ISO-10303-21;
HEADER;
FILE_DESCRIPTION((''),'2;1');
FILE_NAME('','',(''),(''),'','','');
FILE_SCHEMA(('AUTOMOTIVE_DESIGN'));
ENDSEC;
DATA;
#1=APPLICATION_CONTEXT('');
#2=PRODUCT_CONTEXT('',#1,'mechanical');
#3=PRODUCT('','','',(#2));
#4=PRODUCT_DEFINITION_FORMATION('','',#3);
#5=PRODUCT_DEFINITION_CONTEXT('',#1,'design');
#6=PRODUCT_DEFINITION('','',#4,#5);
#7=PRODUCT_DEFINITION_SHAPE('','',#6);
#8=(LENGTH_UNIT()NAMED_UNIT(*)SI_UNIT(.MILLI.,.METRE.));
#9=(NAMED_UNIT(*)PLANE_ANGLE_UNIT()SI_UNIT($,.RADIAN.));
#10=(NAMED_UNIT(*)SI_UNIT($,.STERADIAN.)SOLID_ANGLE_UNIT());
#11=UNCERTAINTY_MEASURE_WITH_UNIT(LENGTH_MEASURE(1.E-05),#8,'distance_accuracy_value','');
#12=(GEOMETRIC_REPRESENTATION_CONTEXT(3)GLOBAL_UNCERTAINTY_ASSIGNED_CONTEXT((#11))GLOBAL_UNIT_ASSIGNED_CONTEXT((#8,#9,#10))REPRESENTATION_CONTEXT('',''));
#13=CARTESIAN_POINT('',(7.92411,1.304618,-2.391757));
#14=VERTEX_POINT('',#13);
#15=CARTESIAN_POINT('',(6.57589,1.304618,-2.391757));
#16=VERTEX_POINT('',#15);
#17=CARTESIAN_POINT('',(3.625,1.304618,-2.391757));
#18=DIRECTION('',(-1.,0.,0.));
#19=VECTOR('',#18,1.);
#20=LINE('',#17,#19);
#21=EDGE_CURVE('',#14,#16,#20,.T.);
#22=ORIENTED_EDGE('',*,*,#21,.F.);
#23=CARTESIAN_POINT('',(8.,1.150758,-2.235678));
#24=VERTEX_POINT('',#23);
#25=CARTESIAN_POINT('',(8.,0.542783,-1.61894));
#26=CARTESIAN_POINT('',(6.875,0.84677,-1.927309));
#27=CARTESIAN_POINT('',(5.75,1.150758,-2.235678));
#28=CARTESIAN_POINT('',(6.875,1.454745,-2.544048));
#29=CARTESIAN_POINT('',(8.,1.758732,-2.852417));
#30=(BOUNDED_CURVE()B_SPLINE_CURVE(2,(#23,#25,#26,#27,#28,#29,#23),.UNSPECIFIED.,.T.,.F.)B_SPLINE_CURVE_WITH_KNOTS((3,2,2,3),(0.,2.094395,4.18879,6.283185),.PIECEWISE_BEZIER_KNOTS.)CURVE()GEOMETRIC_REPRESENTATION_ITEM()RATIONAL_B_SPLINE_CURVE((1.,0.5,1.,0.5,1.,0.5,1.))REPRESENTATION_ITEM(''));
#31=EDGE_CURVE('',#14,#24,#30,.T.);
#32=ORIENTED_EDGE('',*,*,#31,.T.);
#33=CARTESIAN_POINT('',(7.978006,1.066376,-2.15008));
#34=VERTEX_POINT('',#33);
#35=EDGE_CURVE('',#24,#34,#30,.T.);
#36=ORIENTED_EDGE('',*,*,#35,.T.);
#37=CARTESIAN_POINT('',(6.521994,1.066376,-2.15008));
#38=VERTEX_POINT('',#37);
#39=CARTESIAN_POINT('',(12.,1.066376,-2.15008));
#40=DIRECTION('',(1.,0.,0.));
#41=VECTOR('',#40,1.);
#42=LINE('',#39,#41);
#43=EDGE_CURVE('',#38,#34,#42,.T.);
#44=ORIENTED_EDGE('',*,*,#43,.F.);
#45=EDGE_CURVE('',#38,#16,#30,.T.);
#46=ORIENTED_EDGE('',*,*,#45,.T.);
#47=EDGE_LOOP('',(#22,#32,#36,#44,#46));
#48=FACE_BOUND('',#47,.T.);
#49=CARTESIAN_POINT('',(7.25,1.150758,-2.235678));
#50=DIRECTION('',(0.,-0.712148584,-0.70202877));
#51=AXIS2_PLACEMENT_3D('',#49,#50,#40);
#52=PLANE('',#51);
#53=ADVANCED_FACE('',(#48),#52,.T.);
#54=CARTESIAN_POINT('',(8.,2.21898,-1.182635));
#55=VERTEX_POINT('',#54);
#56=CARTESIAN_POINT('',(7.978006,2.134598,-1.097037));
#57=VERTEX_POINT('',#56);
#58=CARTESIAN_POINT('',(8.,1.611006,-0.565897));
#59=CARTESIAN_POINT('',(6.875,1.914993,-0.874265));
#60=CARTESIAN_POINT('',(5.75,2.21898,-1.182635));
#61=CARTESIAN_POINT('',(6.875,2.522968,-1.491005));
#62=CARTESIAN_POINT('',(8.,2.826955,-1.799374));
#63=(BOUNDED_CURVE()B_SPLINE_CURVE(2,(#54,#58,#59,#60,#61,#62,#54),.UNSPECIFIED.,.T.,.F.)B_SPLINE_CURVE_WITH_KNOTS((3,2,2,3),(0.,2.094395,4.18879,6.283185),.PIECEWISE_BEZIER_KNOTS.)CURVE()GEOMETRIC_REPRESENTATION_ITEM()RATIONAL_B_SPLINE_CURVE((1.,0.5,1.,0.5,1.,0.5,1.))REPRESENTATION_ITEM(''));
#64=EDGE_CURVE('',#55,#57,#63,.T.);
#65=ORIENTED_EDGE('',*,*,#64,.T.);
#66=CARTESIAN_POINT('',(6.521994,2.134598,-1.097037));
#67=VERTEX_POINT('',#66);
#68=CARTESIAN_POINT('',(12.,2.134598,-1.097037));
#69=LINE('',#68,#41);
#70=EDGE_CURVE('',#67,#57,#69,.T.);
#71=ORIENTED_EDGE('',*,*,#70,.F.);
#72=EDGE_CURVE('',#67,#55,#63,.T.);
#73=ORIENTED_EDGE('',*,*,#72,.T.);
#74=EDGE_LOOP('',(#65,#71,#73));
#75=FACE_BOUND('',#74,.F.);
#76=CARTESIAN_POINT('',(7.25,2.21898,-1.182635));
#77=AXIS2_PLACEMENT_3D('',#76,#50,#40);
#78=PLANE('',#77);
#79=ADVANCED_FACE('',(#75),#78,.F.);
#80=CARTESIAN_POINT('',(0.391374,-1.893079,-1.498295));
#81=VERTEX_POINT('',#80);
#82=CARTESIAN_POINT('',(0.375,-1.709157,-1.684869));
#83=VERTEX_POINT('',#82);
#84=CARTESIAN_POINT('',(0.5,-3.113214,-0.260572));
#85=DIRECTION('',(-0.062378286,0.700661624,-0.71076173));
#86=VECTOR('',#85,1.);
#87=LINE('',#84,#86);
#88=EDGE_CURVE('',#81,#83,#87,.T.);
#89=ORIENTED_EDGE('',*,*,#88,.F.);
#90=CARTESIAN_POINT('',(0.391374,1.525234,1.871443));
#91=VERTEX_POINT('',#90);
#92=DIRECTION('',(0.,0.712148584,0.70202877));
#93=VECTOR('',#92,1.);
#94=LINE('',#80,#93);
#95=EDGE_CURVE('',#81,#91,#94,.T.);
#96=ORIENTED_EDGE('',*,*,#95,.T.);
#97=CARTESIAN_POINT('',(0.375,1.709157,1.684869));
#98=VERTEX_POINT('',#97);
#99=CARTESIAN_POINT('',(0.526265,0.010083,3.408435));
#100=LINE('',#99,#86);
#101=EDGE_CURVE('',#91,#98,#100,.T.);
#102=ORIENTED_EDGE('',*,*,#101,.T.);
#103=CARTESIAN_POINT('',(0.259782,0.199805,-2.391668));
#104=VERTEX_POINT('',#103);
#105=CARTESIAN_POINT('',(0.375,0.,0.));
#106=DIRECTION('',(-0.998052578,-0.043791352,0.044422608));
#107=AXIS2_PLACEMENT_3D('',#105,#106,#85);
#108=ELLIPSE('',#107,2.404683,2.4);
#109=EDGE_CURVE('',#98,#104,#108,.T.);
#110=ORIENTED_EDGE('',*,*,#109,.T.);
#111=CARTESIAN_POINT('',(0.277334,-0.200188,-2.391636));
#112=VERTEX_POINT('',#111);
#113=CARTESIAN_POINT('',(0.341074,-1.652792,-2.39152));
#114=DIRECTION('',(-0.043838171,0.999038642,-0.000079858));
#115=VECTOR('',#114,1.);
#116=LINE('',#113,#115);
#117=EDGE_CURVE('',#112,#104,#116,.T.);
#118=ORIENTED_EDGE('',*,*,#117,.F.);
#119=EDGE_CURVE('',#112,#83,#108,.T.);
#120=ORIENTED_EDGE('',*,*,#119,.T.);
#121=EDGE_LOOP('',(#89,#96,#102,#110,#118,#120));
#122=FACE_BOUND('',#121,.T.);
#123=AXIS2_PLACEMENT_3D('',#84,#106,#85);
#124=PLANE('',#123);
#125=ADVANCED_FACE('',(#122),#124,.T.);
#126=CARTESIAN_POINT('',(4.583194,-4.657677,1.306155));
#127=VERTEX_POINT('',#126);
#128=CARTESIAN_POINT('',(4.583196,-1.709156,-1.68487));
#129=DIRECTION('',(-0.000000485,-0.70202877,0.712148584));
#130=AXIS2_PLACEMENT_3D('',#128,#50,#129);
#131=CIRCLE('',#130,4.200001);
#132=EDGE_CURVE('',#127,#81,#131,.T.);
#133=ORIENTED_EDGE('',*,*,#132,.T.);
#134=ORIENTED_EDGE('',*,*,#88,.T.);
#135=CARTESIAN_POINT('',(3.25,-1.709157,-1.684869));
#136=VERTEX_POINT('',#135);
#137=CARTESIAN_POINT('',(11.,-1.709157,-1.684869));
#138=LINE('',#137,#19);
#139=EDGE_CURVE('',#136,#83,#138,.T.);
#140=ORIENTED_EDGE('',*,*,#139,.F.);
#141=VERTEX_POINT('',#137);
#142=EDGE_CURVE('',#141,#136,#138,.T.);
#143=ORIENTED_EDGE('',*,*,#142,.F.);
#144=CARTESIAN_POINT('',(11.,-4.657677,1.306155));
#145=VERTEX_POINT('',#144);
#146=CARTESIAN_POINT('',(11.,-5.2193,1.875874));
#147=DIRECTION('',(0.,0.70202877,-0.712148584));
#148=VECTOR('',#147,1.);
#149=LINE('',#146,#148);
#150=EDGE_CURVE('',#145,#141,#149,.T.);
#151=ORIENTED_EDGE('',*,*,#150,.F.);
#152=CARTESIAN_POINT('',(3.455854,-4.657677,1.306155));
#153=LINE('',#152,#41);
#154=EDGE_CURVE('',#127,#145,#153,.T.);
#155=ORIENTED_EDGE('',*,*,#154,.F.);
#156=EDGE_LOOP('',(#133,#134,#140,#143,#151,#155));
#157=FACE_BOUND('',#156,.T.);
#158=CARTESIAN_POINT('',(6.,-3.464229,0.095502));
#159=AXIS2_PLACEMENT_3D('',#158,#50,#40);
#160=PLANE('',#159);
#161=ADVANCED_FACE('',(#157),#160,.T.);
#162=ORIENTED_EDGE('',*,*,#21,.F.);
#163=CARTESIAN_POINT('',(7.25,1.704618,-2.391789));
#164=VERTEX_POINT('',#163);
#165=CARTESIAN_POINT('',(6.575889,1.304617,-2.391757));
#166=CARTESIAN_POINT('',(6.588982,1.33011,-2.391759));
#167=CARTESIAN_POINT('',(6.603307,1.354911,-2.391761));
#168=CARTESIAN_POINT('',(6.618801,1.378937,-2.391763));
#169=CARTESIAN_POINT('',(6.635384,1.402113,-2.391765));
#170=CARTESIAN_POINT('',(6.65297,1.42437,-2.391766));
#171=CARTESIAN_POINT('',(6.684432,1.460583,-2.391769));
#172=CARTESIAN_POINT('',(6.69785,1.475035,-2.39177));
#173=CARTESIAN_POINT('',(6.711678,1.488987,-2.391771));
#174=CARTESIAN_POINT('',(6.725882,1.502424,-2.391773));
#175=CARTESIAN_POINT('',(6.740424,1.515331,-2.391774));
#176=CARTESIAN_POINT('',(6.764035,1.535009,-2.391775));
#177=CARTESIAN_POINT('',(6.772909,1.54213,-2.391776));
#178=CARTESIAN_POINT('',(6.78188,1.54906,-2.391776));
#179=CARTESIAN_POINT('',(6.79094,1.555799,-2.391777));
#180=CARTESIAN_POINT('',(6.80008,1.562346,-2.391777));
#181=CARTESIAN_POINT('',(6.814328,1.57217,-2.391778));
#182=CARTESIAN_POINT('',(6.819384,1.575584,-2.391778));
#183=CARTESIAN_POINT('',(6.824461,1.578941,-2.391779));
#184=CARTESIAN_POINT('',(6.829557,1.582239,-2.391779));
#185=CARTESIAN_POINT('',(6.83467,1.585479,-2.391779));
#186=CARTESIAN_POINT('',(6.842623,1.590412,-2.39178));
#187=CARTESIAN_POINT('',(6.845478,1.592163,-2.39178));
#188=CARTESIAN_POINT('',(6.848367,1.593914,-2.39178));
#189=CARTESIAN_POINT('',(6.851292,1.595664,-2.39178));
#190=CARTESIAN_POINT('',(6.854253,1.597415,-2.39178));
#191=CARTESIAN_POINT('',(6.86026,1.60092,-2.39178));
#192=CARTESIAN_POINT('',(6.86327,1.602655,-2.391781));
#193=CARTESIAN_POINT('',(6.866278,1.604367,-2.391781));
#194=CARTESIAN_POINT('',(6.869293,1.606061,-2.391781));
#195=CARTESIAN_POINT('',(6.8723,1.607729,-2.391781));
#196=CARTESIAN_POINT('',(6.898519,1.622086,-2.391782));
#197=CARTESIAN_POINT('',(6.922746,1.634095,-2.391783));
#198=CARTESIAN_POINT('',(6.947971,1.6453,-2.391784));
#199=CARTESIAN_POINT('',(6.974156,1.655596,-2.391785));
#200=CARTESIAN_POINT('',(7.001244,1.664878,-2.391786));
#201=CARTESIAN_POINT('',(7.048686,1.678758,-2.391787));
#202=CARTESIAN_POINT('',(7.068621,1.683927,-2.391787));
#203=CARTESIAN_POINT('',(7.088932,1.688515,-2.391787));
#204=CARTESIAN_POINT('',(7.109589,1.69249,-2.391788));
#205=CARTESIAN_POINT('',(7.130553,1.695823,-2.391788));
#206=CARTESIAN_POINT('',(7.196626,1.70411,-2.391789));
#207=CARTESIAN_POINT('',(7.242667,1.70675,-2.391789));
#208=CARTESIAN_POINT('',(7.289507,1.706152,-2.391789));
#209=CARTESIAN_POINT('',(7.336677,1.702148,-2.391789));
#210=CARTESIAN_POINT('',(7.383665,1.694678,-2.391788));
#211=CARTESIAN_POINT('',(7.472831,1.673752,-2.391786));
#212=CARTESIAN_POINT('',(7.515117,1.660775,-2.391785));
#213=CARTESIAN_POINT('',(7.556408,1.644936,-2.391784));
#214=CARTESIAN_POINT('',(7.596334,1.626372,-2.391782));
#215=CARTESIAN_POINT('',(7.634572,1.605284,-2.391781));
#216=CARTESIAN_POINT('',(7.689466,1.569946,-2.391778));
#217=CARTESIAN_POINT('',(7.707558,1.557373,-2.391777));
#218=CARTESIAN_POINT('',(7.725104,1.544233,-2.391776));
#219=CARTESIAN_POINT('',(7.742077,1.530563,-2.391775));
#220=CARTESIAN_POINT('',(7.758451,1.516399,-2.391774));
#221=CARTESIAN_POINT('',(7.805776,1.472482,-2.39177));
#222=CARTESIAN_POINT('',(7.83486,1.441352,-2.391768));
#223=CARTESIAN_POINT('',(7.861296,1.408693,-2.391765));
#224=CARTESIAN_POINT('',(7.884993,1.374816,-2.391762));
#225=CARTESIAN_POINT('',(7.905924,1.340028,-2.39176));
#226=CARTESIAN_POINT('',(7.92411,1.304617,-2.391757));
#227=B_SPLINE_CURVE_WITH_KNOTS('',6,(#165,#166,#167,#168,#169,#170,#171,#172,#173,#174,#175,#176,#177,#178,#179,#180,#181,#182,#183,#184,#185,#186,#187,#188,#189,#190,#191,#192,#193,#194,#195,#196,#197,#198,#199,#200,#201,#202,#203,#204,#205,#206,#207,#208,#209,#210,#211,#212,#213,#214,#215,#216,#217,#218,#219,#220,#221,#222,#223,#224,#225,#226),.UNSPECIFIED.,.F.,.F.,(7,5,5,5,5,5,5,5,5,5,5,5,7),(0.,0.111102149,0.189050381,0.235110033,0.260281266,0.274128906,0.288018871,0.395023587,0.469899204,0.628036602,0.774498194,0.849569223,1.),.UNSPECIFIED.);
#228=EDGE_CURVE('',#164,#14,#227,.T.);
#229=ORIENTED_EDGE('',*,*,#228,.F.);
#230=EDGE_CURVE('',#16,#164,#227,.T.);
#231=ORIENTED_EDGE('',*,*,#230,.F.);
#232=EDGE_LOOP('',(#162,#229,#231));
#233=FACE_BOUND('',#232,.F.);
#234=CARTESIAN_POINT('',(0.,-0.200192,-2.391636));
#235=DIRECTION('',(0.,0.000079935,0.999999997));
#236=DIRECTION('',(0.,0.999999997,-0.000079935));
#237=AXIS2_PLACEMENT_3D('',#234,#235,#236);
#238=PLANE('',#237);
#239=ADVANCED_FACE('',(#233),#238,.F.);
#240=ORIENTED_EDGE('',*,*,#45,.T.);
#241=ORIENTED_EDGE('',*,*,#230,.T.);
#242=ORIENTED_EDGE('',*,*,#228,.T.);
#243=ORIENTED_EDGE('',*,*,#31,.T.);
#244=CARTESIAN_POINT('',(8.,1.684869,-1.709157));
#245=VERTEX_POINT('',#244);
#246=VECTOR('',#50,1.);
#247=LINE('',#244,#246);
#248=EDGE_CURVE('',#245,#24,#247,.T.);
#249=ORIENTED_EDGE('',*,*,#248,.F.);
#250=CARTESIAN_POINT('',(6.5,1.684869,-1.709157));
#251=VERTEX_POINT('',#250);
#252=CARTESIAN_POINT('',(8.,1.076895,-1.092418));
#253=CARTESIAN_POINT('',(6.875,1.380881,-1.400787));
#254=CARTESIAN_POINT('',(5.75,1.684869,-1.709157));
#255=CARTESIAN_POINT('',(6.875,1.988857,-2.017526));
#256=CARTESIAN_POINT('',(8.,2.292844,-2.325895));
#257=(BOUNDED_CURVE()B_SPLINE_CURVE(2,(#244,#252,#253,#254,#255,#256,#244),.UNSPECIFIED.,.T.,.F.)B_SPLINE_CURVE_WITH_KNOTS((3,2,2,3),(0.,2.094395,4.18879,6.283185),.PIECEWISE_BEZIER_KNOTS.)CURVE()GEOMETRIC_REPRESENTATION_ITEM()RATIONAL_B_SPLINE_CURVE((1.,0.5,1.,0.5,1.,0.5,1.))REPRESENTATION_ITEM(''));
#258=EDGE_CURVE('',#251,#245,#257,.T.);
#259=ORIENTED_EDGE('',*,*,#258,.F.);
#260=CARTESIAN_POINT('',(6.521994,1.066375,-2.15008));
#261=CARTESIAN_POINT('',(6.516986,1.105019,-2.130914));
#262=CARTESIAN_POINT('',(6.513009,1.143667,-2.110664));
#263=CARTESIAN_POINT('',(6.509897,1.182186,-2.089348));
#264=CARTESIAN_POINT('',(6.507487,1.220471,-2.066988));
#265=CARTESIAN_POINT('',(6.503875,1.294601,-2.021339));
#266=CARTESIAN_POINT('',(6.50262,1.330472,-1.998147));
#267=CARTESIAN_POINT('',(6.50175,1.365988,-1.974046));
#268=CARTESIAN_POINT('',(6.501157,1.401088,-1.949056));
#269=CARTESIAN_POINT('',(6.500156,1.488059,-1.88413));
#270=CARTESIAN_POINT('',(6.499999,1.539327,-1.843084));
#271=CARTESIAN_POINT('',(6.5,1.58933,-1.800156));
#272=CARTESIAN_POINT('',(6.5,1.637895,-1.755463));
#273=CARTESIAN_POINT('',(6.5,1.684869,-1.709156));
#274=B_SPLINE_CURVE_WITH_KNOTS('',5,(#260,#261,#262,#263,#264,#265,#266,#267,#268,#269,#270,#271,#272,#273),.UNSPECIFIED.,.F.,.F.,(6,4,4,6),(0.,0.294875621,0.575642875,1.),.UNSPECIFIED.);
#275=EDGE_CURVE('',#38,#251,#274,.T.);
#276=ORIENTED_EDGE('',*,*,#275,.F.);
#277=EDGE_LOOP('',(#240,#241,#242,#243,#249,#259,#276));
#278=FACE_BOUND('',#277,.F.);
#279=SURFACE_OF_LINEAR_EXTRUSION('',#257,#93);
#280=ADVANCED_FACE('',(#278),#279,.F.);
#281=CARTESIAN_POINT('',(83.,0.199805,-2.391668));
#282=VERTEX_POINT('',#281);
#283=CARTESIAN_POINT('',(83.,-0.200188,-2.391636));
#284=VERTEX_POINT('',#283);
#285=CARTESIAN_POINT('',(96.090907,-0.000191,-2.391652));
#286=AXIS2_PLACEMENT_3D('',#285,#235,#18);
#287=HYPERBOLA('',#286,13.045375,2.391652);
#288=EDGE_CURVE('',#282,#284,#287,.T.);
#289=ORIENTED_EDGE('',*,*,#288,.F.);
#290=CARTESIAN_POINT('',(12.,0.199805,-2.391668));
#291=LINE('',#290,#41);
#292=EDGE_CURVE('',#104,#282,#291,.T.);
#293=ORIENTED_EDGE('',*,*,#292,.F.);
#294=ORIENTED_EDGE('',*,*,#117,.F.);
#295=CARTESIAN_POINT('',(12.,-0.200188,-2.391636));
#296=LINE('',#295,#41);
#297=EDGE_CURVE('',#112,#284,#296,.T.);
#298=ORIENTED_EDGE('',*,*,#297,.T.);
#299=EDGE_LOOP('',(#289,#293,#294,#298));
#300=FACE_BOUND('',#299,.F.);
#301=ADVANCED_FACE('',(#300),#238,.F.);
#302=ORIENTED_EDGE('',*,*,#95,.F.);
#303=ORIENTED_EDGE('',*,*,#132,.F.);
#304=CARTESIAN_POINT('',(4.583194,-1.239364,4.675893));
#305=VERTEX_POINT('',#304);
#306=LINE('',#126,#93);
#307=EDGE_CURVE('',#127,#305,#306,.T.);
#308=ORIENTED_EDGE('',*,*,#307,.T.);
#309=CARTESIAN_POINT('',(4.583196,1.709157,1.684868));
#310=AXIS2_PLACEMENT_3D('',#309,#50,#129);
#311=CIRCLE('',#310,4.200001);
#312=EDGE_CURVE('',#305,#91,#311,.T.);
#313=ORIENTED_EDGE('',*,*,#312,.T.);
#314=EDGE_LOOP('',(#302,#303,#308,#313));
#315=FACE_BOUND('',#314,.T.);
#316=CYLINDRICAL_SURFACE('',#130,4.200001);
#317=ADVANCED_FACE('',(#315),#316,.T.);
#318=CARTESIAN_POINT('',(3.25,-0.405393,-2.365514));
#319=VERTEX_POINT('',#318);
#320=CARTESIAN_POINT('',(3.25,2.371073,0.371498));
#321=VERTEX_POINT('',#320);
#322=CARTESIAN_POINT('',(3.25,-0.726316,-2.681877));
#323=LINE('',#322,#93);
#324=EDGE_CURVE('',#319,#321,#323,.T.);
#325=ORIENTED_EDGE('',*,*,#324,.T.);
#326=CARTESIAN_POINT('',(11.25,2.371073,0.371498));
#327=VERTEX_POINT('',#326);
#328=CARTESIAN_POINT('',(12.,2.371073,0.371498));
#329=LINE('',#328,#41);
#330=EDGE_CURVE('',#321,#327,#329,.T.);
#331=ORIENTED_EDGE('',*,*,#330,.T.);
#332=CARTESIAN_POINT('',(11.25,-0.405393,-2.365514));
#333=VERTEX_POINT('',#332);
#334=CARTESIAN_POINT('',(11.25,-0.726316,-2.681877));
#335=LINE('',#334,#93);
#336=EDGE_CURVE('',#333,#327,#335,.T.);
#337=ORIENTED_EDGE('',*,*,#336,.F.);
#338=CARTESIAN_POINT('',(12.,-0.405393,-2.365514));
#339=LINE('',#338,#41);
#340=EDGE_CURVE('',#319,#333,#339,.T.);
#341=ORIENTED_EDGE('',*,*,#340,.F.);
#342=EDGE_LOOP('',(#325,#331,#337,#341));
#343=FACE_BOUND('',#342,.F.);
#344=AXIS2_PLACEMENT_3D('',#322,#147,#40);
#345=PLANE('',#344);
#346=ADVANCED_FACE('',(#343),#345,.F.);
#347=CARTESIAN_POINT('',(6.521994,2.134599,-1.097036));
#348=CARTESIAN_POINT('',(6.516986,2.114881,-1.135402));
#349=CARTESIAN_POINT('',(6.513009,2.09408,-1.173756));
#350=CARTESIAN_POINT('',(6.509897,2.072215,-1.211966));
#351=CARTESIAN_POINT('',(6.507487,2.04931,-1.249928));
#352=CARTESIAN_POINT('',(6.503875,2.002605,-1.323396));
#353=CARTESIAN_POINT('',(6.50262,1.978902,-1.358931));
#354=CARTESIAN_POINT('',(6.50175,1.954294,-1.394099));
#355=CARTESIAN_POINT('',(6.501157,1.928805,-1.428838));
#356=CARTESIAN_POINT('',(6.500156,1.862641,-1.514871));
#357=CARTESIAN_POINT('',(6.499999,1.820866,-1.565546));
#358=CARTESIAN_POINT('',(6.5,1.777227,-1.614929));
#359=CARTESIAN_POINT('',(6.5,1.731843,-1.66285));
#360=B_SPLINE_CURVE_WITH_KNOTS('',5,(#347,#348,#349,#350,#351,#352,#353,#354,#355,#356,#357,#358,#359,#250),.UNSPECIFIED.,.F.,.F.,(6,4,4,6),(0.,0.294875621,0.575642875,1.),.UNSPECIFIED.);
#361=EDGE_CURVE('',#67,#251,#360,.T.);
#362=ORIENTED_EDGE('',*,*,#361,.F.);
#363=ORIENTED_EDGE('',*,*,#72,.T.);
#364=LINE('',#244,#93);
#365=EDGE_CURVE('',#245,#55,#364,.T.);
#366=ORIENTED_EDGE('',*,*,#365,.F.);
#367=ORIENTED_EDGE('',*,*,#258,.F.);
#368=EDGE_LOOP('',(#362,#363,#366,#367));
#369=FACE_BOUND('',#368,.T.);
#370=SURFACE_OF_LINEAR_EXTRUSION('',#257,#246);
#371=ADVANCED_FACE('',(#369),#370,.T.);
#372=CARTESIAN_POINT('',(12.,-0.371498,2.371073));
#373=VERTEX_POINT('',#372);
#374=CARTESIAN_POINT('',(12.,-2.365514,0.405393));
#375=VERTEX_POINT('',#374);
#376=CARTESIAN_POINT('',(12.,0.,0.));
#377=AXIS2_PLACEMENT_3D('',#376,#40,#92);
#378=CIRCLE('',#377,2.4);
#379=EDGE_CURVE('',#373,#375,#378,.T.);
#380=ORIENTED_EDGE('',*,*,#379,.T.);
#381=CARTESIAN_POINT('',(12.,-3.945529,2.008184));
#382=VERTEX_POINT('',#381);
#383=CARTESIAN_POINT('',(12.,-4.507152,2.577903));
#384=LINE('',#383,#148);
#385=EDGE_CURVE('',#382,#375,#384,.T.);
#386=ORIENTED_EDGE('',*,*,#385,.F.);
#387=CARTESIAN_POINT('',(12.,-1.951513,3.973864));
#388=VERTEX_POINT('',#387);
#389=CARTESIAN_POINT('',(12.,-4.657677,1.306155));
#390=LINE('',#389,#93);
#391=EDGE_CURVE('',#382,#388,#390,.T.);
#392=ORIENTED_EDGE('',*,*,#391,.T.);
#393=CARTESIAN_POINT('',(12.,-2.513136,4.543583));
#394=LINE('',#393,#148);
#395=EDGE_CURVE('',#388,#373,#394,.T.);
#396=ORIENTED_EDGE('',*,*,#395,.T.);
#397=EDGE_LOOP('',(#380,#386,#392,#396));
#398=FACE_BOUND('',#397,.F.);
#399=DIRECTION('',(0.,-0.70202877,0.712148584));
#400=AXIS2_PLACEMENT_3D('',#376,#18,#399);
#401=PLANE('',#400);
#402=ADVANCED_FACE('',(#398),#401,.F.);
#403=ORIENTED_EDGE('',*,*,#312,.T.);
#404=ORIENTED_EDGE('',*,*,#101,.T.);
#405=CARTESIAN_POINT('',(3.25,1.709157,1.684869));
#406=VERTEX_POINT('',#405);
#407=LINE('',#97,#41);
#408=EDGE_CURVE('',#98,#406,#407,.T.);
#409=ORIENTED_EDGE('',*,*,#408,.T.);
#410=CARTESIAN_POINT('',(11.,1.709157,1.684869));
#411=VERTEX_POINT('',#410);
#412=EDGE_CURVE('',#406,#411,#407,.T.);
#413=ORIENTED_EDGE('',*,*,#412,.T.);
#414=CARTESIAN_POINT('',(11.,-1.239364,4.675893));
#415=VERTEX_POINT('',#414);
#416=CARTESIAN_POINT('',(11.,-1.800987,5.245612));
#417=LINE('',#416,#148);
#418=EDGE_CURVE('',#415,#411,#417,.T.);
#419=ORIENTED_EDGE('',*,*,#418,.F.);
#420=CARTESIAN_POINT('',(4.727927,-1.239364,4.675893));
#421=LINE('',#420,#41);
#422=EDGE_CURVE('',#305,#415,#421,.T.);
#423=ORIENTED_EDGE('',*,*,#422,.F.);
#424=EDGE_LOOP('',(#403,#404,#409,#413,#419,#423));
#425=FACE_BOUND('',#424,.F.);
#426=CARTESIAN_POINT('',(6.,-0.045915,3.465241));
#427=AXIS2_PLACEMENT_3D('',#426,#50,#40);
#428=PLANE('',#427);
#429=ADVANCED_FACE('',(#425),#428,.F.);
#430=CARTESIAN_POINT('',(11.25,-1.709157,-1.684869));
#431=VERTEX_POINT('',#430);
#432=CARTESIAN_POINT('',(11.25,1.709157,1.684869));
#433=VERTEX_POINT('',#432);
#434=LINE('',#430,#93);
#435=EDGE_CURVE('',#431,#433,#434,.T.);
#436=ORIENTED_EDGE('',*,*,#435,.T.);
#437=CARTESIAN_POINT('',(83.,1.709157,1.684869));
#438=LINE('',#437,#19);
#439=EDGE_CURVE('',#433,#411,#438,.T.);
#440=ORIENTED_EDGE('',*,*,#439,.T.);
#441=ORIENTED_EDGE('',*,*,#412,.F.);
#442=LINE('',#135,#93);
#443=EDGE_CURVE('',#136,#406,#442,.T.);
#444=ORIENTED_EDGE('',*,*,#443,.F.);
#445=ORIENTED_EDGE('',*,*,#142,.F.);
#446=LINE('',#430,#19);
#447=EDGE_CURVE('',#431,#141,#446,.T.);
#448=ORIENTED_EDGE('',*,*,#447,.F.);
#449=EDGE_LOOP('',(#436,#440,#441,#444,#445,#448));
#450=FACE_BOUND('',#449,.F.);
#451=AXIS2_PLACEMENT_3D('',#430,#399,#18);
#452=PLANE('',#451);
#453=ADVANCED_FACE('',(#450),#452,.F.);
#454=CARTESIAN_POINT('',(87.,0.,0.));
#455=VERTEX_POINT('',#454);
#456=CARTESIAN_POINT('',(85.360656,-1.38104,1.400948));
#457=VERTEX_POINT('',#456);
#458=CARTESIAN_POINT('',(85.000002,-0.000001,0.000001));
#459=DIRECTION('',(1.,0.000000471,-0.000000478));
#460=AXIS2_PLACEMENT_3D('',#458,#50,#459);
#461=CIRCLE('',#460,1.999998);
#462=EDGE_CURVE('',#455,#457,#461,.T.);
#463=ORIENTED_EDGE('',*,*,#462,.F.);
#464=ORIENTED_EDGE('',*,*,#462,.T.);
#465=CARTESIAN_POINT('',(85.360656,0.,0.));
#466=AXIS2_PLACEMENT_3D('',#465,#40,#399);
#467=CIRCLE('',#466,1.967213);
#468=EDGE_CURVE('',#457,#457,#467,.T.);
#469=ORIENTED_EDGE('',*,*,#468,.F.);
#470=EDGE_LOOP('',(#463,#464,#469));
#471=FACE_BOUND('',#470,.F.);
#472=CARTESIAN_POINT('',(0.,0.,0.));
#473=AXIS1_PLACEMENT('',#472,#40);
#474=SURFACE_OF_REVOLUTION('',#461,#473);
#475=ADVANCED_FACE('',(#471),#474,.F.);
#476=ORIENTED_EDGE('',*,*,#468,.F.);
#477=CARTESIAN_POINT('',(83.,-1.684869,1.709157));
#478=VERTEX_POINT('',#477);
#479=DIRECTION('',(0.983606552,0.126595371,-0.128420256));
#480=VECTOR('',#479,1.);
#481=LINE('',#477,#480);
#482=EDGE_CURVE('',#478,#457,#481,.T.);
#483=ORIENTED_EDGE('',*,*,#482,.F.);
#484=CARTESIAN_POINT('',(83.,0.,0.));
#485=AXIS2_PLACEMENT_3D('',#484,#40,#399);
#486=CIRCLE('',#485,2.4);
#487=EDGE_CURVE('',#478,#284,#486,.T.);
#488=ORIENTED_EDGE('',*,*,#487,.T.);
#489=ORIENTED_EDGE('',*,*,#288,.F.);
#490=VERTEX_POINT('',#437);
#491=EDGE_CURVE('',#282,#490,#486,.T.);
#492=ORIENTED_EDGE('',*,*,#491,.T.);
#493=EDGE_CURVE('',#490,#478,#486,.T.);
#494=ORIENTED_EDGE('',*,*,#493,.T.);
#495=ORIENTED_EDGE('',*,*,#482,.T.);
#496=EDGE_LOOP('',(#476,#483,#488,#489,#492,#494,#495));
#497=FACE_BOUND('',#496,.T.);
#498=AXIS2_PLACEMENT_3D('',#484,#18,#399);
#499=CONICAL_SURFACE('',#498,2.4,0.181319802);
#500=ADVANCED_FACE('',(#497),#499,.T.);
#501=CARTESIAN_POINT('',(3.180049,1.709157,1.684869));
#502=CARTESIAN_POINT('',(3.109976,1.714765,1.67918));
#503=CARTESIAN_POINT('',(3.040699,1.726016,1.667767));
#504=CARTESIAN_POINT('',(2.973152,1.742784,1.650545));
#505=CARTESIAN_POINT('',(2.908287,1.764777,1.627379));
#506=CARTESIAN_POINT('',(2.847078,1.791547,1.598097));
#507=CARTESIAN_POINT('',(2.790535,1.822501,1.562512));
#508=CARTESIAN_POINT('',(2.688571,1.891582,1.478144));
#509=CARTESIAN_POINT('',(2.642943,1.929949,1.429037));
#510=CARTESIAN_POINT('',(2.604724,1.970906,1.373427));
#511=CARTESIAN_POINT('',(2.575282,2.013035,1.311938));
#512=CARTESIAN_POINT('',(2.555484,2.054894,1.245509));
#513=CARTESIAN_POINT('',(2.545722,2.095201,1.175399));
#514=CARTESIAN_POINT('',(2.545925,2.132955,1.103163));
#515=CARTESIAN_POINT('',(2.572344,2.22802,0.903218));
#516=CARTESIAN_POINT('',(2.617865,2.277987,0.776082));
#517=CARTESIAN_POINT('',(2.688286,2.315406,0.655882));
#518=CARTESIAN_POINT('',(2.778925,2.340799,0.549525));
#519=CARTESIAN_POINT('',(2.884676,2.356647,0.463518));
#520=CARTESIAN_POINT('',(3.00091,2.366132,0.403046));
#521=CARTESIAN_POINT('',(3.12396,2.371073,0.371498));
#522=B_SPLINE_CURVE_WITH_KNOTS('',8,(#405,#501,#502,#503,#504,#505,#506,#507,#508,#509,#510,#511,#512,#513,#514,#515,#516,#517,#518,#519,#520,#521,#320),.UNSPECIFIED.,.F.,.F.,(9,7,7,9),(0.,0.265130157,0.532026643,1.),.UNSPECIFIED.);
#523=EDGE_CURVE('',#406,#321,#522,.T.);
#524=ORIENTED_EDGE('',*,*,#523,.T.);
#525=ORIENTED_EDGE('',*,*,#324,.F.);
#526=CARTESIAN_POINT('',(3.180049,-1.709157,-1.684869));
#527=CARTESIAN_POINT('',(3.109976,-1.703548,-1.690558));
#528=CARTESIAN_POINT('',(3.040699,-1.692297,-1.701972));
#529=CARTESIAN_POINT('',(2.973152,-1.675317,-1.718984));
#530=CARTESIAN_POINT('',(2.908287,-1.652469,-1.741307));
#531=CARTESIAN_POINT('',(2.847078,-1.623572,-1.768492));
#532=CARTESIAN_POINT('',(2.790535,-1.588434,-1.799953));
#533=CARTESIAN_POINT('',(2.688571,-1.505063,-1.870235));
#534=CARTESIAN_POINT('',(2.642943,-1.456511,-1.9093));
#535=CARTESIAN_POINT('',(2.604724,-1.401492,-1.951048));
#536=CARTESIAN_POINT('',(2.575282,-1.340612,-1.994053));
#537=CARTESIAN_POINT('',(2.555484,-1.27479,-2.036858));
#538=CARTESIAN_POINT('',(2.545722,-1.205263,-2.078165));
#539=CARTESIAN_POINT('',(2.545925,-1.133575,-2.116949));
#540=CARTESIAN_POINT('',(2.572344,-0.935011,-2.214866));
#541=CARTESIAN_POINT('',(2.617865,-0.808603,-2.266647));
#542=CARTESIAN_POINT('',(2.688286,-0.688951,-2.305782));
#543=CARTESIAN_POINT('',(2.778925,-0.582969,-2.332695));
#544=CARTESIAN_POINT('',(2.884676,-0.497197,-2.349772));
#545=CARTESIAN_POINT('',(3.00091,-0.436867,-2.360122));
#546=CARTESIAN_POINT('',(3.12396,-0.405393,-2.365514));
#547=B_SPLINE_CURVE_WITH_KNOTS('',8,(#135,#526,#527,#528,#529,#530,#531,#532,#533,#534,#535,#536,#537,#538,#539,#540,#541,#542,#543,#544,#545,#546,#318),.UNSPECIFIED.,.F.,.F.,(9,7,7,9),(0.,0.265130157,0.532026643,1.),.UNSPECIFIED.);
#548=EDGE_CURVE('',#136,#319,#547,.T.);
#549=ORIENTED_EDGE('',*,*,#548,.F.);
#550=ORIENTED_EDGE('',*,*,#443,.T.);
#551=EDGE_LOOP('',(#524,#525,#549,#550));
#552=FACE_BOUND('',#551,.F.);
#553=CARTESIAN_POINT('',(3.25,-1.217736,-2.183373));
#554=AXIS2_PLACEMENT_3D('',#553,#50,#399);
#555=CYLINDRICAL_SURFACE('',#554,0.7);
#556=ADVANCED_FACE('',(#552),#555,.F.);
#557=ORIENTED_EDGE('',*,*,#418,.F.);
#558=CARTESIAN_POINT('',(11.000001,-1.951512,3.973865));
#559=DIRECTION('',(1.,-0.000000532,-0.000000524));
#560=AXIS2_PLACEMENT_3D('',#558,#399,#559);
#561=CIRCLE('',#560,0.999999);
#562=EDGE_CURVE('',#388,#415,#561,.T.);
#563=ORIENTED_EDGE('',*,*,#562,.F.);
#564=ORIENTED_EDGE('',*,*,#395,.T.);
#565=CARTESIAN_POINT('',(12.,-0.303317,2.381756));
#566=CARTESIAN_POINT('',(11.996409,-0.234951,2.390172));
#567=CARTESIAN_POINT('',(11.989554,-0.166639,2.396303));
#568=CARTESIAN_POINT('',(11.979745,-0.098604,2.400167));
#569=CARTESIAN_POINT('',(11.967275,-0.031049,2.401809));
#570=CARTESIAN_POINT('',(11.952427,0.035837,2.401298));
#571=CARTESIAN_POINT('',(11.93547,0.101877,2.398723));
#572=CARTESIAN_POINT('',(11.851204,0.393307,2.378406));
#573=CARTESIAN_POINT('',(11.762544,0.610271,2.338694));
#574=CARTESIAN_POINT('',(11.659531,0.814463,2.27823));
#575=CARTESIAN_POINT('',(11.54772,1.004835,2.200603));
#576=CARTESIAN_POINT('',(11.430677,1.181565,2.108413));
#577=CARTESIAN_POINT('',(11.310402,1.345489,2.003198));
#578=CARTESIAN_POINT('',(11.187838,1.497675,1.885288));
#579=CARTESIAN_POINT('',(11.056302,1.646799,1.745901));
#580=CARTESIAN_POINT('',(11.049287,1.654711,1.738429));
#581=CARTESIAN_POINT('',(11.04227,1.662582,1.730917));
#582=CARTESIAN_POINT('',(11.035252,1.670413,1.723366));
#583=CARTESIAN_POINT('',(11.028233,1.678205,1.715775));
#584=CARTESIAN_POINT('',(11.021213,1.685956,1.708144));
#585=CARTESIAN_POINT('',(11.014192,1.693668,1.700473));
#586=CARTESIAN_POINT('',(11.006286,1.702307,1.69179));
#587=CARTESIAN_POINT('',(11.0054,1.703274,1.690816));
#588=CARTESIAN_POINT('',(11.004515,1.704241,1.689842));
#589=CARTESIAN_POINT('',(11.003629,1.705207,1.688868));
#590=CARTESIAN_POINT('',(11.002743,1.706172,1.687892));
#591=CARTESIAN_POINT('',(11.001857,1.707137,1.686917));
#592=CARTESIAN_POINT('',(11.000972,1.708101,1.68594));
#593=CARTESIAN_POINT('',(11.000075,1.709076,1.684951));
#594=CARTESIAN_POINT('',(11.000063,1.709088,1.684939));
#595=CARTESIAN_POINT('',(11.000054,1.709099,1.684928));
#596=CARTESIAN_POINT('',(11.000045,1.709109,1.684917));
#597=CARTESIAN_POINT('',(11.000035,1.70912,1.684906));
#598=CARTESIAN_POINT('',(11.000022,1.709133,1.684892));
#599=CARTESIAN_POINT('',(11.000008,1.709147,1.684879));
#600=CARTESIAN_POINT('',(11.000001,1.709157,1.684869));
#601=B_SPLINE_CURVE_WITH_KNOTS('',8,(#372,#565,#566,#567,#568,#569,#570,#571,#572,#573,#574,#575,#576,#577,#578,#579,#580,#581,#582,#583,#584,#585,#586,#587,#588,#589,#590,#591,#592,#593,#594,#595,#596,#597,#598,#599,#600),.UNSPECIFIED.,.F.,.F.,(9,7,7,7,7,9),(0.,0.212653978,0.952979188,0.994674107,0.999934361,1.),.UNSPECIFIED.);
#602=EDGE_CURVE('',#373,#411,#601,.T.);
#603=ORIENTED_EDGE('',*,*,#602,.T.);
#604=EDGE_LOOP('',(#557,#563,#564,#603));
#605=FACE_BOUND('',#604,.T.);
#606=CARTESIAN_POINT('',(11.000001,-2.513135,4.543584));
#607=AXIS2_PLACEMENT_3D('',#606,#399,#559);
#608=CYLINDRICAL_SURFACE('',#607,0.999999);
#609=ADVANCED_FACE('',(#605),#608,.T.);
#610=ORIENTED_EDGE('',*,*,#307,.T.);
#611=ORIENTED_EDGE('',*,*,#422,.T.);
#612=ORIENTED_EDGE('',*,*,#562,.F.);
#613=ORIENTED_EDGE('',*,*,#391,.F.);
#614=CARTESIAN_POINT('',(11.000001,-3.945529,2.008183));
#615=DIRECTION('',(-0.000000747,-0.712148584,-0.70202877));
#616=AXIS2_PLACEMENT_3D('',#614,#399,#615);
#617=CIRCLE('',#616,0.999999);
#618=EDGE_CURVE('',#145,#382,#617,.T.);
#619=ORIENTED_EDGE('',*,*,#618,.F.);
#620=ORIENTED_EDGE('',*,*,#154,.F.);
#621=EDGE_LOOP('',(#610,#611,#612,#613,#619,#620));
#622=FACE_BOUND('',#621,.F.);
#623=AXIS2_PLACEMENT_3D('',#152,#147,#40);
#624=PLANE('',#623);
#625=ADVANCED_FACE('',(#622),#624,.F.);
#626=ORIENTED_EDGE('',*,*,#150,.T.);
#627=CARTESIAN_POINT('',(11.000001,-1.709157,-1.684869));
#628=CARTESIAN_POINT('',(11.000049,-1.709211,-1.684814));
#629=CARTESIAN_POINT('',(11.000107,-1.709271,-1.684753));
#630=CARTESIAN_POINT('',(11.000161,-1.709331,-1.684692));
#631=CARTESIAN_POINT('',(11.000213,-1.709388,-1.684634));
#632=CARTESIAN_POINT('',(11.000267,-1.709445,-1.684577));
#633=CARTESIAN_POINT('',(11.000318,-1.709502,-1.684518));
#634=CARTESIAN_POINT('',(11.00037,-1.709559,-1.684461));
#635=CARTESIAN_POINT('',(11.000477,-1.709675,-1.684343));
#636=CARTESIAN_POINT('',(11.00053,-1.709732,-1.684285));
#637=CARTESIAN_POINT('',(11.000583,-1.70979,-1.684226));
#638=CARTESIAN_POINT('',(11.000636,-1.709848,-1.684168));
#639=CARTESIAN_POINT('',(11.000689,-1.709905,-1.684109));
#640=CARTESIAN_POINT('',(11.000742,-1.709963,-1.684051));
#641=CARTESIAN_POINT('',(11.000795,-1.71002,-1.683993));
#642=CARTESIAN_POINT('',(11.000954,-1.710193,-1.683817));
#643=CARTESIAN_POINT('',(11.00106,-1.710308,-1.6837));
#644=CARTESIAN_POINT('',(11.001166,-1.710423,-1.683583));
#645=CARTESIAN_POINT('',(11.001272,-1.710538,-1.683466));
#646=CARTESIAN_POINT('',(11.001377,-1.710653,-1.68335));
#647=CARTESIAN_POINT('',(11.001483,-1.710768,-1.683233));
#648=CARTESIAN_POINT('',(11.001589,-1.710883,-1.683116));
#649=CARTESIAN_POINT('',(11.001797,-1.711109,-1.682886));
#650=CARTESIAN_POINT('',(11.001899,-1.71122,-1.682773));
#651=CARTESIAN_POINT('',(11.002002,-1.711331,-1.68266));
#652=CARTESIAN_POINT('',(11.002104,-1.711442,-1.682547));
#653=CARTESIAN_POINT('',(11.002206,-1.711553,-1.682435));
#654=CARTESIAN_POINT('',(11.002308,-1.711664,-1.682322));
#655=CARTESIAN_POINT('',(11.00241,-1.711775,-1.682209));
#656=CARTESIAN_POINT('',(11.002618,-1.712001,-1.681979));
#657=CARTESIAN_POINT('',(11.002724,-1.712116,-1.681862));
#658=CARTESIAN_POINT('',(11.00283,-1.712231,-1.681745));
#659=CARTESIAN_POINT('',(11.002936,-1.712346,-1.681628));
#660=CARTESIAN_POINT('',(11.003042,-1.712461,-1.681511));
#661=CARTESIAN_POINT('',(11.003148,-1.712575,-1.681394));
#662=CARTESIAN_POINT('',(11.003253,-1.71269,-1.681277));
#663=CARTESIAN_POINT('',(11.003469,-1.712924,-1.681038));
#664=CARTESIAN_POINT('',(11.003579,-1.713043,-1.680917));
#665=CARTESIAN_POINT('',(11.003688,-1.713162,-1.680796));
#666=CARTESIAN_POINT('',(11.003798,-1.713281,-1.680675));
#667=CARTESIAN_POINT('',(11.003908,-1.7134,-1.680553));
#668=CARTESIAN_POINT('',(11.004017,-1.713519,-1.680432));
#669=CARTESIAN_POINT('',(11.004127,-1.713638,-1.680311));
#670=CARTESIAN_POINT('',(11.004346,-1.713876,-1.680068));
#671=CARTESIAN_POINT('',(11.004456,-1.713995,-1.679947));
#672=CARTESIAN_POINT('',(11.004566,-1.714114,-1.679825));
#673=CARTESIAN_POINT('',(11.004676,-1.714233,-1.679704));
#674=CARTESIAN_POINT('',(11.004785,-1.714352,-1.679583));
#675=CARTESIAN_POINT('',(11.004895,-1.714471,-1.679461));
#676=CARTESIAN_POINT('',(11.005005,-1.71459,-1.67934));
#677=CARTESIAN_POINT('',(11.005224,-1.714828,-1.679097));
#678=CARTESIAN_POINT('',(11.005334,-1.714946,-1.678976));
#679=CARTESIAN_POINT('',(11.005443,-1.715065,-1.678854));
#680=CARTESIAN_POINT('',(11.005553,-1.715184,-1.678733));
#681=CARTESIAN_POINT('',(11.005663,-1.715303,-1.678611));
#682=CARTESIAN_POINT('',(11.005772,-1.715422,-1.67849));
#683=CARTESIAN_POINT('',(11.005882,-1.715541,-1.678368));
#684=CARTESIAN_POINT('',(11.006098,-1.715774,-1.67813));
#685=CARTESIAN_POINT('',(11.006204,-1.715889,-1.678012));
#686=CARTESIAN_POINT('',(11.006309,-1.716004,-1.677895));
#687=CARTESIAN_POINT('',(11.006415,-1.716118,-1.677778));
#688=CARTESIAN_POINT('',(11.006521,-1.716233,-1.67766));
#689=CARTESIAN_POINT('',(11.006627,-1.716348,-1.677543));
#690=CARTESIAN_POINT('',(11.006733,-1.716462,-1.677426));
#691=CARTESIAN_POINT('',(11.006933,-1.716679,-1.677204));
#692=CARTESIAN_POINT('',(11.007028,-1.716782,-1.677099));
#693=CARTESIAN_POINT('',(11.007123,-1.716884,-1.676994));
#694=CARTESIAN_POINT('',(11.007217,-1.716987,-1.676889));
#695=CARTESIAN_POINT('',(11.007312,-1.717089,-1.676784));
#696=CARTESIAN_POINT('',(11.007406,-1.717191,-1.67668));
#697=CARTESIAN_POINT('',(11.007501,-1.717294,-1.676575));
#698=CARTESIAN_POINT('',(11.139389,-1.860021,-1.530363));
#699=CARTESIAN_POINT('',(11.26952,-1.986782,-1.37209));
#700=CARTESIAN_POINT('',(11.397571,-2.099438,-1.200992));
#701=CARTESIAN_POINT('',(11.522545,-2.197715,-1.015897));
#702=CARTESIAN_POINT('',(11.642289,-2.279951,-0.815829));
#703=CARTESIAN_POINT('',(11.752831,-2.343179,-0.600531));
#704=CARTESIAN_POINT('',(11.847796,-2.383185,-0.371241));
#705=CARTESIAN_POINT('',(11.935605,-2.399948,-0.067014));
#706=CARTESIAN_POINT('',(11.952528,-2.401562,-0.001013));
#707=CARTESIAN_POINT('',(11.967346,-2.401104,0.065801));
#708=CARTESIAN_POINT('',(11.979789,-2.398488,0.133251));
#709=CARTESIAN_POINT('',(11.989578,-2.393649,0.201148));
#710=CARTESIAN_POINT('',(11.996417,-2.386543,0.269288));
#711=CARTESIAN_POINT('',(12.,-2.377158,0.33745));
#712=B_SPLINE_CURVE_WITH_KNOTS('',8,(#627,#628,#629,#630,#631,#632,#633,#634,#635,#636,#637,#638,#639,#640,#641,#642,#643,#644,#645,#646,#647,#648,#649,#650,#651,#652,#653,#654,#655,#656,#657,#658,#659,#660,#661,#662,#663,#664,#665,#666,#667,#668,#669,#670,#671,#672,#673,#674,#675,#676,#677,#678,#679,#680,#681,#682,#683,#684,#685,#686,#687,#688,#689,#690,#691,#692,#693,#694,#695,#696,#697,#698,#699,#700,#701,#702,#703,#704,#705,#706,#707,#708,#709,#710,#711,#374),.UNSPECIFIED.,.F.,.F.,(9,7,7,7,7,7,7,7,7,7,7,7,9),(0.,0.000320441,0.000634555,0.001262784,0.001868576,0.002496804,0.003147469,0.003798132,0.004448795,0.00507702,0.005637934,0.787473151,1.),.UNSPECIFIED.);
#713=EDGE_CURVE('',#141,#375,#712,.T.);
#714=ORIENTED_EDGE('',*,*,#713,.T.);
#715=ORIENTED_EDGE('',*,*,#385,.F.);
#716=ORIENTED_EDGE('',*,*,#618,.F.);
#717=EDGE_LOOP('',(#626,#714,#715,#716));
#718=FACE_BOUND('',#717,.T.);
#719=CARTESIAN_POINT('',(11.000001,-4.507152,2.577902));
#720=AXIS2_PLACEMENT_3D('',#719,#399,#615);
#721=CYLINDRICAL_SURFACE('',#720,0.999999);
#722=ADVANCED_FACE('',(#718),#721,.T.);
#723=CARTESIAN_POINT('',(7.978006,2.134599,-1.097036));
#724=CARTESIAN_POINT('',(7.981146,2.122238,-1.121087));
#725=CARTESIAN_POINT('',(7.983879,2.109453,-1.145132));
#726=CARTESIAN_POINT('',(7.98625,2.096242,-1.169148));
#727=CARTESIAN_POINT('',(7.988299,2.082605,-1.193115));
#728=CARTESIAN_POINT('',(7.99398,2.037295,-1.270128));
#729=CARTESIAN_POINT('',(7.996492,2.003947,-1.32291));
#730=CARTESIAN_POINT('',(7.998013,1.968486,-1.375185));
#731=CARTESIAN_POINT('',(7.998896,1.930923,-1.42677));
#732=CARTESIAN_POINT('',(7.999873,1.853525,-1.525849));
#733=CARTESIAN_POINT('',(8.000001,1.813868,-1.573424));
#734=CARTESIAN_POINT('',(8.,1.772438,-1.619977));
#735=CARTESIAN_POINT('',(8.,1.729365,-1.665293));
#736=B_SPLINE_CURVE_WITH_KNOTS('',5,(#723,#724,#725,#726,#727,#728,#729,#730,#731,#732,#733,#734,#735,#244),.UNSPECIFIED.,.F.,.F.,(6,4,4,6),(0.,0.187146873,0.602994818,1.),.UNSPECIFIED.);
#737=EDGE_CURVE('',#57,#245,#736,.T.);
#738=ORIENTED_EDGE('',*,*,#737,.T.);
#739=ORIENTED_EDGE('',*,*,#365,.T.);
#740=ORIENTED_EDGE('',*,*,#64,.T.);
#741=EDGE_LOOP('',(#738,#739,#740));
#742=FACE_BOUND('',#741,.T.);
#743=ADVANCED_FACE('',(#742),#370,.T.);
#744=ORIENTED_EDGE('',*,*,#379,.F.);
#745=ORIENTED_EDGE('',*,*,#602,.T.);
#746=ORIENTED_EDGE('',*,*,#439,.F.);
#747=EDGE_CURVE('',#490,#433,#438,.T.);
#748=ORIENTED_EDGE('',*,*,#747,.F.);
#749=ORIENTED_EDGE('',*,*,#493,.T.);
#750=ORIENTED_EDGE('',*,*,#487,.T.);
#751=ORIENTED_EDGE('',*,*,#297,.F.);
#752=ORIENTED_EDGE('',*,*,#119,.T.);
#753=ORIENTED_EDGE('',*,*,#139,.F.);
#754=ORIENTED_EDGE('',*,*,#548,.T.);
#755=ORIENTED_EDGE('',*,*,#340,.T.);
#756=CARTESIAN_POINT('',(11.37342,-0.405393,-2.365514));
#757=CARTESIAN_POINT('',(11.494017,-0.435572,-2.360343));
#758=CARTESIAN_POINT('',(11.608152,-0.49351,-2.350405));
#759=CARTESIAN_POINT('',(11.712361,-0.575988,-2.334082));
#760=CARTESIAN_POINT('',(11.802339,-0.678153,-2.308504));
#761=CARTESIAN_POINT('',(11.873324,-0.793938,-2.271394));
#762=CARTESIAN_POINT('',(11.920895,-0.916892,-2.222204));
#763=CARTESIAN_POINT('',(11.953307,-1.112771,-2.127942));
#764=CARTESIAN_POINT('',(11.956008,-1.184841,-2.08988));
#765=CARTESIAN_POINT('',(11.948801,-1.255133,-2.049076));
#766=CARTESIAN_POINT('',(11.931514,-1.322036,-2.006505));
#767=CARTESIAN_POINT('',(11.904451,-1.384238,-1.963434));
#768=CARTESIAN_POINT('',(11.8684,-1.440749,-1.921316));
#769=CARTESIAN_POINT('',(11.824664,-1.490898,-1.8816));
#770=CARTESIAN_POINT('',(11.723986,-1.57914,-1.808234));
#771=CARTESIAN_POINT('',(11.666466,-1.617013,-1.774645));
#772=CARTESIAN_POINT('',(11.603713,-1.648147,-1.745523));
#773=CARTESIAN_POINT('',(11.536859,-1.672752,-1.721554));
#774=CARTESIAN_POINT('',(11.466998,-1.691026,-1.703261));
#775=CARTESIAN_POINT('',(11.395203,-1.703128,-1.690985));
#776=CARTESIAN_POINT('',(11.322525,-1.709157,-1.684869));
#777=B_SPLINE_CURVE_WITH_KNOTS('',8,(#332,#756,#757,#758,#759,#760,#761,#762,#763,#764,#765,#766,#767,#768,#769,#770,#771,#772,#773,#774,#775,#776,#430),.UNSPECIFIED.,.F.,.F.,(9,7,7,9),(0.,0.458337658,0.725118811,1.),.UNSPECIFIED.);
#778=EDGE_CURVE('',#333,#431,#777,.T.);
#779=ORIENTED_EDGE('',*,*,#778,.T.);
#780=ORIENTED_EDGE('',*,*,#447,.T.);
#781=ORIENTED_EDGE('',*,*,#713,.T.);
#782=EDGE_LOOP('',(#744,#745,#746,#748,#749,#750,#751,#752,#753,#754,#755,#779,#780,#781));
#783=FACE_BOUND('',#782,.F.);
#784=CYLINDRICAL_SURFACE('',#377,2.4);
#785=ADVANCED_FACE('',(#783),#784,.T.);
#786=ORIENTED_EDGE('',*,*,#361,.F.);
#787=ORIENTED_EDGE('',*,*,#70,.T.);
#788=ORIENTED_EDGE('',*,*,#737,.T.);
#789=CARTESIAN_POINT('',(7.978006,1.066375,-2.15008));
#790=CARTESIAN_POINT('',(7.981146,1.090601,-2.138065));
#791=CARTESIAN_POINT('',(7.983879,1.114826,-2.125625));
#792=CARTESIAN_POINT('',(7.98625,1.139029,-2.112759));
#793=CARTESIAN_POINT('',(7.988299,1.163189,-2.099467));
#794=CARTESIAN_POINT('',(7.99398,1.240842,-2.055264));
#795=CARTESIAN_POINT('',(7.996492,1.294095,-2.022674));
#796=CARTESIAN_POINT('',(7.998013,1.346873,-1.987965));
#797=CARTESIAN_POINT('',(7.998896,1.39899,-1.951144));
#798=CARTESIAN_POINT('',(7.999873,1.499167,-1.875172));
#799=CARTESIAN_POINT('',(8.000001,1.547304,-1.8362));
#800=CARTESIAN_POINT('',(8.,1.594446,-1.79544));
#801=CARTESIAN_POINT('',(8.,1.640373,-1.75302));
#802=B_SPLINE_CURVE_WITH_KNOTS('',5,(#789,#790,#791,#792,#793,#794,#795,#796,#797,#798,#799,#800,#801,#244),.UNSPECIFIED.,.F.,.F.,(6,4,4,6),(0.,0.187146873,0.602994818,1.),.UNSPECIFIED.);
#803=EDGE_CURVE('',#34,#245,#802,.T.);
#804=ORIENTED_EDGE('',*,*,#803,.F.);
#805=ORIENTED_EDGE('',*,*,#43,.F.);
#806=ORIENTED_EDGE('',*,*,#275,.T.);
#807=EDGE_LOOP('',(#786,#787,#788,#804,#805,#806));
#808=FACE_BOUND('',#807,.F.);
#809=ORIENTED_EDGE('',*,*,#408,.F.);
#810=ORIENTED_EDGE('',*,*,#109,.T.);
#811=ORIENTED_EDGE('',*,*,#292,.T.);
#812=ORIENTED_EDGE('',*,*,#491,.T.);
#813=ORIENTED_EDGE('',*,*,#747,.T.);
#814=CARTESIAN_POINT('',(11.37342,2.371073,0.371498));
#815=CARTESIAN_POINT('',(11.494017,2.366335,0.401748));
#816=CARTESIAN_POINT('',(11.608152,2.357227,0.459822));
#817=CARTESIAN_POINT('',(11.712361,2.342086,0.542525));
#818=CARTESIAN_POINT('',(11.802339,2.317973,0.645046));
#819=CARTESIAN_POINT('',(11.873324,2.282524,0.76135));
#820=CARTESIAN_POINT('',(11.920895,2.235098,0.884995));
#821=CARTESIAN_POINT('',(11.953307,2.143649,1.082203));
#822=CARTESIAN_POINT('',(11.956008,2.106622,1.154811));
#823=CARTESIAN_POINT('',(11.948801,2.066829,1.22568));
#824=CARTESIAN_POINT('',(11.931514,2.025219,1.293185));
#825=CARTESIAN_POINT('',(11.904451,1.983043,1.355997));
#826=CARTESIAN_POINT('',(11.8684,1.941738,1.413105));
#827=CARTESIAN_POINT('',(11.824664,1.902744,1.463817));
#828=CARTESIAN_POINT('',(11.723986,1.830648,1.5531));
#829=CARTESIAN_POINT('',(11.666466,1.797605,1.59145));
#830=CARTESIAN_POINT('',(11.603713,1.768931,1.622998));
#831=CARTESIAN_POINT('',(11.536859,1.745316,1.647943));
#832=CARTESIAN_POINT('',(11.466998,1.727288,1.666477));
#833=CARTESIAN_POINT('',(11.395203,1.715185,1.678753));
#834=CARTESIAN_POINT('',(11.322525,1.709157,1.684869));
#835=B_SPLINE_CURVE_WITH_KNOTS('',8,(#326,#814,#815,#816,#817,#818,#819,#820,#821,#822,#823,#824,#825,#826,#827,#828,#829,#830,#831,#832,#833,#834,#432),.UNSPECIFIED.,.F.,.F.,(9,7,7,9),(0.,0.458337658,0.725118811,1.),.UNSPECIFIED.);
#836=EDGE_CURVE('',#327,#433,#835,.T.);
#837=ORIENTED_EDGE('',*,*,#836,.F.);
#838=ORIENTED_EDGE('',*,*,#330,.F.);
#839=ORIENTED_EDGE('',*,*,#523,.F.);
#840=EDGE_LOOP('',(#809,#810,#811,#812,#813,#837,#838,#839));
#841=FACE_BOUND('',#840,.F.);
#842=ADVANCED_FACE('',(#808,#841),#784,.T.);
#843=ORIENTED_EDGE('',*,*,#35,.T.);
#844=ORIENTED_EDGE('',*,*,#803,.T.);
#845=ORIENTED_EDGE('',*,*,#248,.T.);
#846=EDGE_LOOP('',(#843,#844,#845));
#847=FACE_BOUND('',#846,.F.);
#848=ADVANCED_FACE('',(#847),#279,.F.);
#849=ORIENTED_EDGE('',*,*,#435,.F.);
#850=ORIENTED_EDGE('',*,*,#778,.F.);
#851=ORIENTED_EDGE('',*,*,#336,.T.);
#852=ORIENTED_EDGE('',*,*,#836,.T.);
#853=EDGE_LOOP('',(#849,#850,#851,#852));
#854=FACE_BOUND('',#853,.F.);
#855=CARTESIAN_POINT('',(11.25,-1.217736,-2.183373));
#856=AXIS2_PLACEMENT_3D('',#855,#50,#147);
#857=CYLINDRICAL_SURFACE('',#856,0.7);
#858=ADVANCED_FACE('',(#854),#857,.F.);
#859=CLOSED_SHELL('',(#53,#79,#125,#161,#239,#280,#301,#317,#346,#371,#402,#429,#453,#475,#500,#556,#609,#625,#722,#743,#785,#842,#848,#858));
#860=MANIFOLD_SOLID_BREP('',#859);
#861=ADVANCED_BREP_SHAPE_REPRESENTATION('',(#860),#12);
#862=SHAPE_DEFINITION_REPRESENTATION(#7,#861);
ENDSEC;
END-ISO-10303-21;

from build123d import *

# Parameters (mm, degrees)
SKETCH_R             = 2.4
PAD_DEPTH            = 87
SKETCH002_W          = 12
SKETCH002_H          = 5
PAD001_DEPTH         = 2.4
PAD001_DEPTH_BACK    = 2.4
POCKET_DEPTH         = 5
POCKET001_DEPTH      = 5
SKETCH005_R          = 2.4
PAD002_DEPTH         = 6
PAD003_DEPTH         = 0.75
PAD003_DEPTH_BACK    = 0.75
POCKET002_DEPTH      = 5
POCKET003_DEPTH      = 5
POCKET004_DEPTH      = 10
POCKET005_DEPTH      = 100
POCKET005_DEPTH_BACK = -100
BODY_PLACEMENT_ANGLE = 44.59


with BuildPart() as part:
    # Sketch → Pad (new body)
    with BuildSketch(Plane.YZ):
        Circle(SKETCH_R)
    extrude(amount=PAD_DEPTH)

    # Sketch001 → Groove (revolve, cut)
    with BuildSketch(Plane.XZ):
        with BuildLine():
            Line((87, 2.4), (83, 2.4))
            Line((83, 2.4), (85.360656, 1.967213))
            ThreePointArc((87, 0), (86.536443, 1.280369), (85.360656, 1.967213))
            Line((88, 0), (87, 0))
            Line((88, 2.4), (88, 0))
            Line((87, 2.4), (88, 2.4))
        make_face()
    revolve(axis=Axis((0, 0, 0), (1, 0, 0)), mode=Mode.SUBTRACT)

    # Sketch002 → Pad001 (join, two sides)
    with BuildSketch(Plane.XZ) as pad001_sk:
        with Locations((6, 2.5)):
            Rectangle(SKETCH002_W, SKETCH002_H)
    extrude(amount=PAD001_DEPTH)
    extrude(pad001_sk.sketch, amount=-PAD001_DEPTH_BACK)

    # Sketch003 (on Face5 of Pad001) → Pocket (cut)
    with BuildSketch(Plane(origin=(0, -2.4, 0), x_dir=(0, 0, -1), z_dir=(0, -1, 0))):
        with BuildLine():
            Line((-5, 0), (-5, 3))
            ThreePointArc((-5, 3), (-3.908916, 1.259301), (-2, 0.5))
            Line((-2, 0.5), (6, 0))
            Line((-2, 0), (6, 0))
            Line((-2, 0), (-5, 0))
        make_face()
    extrude(amount=-POCKET_DEPTH, mode=Mode.SUBTRACT)

    # Sketch004 (on Face7 of Pocket) → Pocket001 (cut)
    with BuildSketch(Plane(origin=(0, 0, 5), x_dir=(0, -1, 0), z_dir=(0, 0, 1))):
        with BuildLine():
            ThreePointArc((-1.4, 12), (-2.107107, 11.707107), (-2.4, 11))
            Line((-2.4, 11), (-2.4, 12))
            Line((-2.4, 12), (-1.4, 12))
        make_face()
        with BuildLine():
            ThreePointArc((2.4, 11), (2.107107, 11.707107), (1.4, 12))
            Line((2.4, 12), (1.4, 12))
            Line((2.4, 12), (2.4, 11))
        make_face()
    extrude(amount=-POCKET001_DEPTH, mode=Mode.SUBTRACT)

    # Sketch005 (on Face10 of Pocket001) → Pad002 (join)
    with BuildSketch(Plane(origin=(12, 0, 0), x_dir=(0, 1, 0), z_dir=(-1, 0, 0))):
        Circle(SKETCH005_R)
    extrude(amount=PAD002_DEPTH)

    # Sketch006 → Pad003 (join, two sides)
    with BuildSketch(Plane.XZ) as pad003_sk:
        with BuildLine():
            add(Edge.make_bspline(
                [(8, -2.4), (8, -1.533975), (6.875, -1.966987), (5.75, -2.4), (6.875, -2.833013), (8, -3.266025), (8, -2.4)],
                knots=[0, 0, 0, 2.094395, 2.094395, 4.18879, 4.18879, 6.283185, 6.283185, 6.283185], degree=2, weights=[1, 0.5, 1, 0.5, 1, 0.5, 1]))
        make_face()
    extrude(amount=PAD003_DEPTH)
    extrude(pad003_sk.sketch, amount=-PAD003_DEPTH_BACK)

    # Sketch007 (on Face8 of Pad003) → Pocket002 (cut)
    with BuildSketch(Plane(origin=(0, -2.4, 0), x_dir=(0, 0, -1), z_dir=(0, -1, 0))):
        with BuildLine():
            ThreePointArc((-4.2, 3.455854), (-3.386482, 1.401761), (-1.387135, 0.461696))
            Line((-5, 0.461696), (-1.387135, 0.461696))
            Line((-5, 12), (-5, 0.461696))
            Line((-4.2, 12), (-5, 12))
            Line((-4.2, 3.455854), (-4.2, 12))
        make_face()
    extrude(amount=-POCKET002_DEPTH, mode=Mode.SUBTRACT)

    # Sketch008 (on Face8 of Pocket002) → Pocket003 (cut)
    with BuildSketch(Plane(origin=(0, -2.4, 0), x_dir=(0, 0, -1), z_dir=(0, -1, 0))):
        with BuildLine():
            ThreePointArc((-4.2, 4.583194), (-3.061073, 1.707464), (-0.261987, 0.391374))
            Line((-0.261987, 0.391374), (-4.2, 0.6375))
            Line((-4.2, 4.583194), (-4.2, 0.6375))
        make_face()
    extrude(amount=-POCKET003_DEPTH, mode=Mode.SUBTRACT)

    # Sketch009 (on Face8 of Pocket003) → Pocket004 (cut)
    with BuildSketch(Plane(origin=(0, -2.4, 0), x_dir=(0, 0, -1), z_dir=(0, -1, 0))):
        with BuildLine():
            ThreePointArc((0, 3.25), (0.7, 2.55), (1.4, 3.25))
            Line((1.4, 3.25), (1.4, 11.25))
            ThreePointArc((1.4, 11.25), (0.7, 11.95), (0, 11.25))
            Line((0, 11.25), (0, 3.25))
        make_face()
    extrude(amount=-POCKET004_DEPTH, mode=Mode.SUBTRACT)

    # Sketch010 → Pocket005 (cut, two sides)
    with BuildSketch(Plane.YZ) as pocket005_sk:
        Polygon((-1.821564, -1.56266), (-0.465163, -2.9), (-1.821564, -2.9), align=None)
    extrude(amount=-POCKET005_DEPTH, mode=Mode.SUBTRACT)
    extrude(pocket005_sk.sketch, amount=-POCKET005_DEPTH_BACK, mode=Mode.SUBTRACT)


with BuildPart() as part_1:
    # Body placement: moved
    add(part.part.rotate(Axis((0, 0, 0), (1, 0, 0)), BODY_PLACEMENT_ANGLE))


solid = part_1.part
